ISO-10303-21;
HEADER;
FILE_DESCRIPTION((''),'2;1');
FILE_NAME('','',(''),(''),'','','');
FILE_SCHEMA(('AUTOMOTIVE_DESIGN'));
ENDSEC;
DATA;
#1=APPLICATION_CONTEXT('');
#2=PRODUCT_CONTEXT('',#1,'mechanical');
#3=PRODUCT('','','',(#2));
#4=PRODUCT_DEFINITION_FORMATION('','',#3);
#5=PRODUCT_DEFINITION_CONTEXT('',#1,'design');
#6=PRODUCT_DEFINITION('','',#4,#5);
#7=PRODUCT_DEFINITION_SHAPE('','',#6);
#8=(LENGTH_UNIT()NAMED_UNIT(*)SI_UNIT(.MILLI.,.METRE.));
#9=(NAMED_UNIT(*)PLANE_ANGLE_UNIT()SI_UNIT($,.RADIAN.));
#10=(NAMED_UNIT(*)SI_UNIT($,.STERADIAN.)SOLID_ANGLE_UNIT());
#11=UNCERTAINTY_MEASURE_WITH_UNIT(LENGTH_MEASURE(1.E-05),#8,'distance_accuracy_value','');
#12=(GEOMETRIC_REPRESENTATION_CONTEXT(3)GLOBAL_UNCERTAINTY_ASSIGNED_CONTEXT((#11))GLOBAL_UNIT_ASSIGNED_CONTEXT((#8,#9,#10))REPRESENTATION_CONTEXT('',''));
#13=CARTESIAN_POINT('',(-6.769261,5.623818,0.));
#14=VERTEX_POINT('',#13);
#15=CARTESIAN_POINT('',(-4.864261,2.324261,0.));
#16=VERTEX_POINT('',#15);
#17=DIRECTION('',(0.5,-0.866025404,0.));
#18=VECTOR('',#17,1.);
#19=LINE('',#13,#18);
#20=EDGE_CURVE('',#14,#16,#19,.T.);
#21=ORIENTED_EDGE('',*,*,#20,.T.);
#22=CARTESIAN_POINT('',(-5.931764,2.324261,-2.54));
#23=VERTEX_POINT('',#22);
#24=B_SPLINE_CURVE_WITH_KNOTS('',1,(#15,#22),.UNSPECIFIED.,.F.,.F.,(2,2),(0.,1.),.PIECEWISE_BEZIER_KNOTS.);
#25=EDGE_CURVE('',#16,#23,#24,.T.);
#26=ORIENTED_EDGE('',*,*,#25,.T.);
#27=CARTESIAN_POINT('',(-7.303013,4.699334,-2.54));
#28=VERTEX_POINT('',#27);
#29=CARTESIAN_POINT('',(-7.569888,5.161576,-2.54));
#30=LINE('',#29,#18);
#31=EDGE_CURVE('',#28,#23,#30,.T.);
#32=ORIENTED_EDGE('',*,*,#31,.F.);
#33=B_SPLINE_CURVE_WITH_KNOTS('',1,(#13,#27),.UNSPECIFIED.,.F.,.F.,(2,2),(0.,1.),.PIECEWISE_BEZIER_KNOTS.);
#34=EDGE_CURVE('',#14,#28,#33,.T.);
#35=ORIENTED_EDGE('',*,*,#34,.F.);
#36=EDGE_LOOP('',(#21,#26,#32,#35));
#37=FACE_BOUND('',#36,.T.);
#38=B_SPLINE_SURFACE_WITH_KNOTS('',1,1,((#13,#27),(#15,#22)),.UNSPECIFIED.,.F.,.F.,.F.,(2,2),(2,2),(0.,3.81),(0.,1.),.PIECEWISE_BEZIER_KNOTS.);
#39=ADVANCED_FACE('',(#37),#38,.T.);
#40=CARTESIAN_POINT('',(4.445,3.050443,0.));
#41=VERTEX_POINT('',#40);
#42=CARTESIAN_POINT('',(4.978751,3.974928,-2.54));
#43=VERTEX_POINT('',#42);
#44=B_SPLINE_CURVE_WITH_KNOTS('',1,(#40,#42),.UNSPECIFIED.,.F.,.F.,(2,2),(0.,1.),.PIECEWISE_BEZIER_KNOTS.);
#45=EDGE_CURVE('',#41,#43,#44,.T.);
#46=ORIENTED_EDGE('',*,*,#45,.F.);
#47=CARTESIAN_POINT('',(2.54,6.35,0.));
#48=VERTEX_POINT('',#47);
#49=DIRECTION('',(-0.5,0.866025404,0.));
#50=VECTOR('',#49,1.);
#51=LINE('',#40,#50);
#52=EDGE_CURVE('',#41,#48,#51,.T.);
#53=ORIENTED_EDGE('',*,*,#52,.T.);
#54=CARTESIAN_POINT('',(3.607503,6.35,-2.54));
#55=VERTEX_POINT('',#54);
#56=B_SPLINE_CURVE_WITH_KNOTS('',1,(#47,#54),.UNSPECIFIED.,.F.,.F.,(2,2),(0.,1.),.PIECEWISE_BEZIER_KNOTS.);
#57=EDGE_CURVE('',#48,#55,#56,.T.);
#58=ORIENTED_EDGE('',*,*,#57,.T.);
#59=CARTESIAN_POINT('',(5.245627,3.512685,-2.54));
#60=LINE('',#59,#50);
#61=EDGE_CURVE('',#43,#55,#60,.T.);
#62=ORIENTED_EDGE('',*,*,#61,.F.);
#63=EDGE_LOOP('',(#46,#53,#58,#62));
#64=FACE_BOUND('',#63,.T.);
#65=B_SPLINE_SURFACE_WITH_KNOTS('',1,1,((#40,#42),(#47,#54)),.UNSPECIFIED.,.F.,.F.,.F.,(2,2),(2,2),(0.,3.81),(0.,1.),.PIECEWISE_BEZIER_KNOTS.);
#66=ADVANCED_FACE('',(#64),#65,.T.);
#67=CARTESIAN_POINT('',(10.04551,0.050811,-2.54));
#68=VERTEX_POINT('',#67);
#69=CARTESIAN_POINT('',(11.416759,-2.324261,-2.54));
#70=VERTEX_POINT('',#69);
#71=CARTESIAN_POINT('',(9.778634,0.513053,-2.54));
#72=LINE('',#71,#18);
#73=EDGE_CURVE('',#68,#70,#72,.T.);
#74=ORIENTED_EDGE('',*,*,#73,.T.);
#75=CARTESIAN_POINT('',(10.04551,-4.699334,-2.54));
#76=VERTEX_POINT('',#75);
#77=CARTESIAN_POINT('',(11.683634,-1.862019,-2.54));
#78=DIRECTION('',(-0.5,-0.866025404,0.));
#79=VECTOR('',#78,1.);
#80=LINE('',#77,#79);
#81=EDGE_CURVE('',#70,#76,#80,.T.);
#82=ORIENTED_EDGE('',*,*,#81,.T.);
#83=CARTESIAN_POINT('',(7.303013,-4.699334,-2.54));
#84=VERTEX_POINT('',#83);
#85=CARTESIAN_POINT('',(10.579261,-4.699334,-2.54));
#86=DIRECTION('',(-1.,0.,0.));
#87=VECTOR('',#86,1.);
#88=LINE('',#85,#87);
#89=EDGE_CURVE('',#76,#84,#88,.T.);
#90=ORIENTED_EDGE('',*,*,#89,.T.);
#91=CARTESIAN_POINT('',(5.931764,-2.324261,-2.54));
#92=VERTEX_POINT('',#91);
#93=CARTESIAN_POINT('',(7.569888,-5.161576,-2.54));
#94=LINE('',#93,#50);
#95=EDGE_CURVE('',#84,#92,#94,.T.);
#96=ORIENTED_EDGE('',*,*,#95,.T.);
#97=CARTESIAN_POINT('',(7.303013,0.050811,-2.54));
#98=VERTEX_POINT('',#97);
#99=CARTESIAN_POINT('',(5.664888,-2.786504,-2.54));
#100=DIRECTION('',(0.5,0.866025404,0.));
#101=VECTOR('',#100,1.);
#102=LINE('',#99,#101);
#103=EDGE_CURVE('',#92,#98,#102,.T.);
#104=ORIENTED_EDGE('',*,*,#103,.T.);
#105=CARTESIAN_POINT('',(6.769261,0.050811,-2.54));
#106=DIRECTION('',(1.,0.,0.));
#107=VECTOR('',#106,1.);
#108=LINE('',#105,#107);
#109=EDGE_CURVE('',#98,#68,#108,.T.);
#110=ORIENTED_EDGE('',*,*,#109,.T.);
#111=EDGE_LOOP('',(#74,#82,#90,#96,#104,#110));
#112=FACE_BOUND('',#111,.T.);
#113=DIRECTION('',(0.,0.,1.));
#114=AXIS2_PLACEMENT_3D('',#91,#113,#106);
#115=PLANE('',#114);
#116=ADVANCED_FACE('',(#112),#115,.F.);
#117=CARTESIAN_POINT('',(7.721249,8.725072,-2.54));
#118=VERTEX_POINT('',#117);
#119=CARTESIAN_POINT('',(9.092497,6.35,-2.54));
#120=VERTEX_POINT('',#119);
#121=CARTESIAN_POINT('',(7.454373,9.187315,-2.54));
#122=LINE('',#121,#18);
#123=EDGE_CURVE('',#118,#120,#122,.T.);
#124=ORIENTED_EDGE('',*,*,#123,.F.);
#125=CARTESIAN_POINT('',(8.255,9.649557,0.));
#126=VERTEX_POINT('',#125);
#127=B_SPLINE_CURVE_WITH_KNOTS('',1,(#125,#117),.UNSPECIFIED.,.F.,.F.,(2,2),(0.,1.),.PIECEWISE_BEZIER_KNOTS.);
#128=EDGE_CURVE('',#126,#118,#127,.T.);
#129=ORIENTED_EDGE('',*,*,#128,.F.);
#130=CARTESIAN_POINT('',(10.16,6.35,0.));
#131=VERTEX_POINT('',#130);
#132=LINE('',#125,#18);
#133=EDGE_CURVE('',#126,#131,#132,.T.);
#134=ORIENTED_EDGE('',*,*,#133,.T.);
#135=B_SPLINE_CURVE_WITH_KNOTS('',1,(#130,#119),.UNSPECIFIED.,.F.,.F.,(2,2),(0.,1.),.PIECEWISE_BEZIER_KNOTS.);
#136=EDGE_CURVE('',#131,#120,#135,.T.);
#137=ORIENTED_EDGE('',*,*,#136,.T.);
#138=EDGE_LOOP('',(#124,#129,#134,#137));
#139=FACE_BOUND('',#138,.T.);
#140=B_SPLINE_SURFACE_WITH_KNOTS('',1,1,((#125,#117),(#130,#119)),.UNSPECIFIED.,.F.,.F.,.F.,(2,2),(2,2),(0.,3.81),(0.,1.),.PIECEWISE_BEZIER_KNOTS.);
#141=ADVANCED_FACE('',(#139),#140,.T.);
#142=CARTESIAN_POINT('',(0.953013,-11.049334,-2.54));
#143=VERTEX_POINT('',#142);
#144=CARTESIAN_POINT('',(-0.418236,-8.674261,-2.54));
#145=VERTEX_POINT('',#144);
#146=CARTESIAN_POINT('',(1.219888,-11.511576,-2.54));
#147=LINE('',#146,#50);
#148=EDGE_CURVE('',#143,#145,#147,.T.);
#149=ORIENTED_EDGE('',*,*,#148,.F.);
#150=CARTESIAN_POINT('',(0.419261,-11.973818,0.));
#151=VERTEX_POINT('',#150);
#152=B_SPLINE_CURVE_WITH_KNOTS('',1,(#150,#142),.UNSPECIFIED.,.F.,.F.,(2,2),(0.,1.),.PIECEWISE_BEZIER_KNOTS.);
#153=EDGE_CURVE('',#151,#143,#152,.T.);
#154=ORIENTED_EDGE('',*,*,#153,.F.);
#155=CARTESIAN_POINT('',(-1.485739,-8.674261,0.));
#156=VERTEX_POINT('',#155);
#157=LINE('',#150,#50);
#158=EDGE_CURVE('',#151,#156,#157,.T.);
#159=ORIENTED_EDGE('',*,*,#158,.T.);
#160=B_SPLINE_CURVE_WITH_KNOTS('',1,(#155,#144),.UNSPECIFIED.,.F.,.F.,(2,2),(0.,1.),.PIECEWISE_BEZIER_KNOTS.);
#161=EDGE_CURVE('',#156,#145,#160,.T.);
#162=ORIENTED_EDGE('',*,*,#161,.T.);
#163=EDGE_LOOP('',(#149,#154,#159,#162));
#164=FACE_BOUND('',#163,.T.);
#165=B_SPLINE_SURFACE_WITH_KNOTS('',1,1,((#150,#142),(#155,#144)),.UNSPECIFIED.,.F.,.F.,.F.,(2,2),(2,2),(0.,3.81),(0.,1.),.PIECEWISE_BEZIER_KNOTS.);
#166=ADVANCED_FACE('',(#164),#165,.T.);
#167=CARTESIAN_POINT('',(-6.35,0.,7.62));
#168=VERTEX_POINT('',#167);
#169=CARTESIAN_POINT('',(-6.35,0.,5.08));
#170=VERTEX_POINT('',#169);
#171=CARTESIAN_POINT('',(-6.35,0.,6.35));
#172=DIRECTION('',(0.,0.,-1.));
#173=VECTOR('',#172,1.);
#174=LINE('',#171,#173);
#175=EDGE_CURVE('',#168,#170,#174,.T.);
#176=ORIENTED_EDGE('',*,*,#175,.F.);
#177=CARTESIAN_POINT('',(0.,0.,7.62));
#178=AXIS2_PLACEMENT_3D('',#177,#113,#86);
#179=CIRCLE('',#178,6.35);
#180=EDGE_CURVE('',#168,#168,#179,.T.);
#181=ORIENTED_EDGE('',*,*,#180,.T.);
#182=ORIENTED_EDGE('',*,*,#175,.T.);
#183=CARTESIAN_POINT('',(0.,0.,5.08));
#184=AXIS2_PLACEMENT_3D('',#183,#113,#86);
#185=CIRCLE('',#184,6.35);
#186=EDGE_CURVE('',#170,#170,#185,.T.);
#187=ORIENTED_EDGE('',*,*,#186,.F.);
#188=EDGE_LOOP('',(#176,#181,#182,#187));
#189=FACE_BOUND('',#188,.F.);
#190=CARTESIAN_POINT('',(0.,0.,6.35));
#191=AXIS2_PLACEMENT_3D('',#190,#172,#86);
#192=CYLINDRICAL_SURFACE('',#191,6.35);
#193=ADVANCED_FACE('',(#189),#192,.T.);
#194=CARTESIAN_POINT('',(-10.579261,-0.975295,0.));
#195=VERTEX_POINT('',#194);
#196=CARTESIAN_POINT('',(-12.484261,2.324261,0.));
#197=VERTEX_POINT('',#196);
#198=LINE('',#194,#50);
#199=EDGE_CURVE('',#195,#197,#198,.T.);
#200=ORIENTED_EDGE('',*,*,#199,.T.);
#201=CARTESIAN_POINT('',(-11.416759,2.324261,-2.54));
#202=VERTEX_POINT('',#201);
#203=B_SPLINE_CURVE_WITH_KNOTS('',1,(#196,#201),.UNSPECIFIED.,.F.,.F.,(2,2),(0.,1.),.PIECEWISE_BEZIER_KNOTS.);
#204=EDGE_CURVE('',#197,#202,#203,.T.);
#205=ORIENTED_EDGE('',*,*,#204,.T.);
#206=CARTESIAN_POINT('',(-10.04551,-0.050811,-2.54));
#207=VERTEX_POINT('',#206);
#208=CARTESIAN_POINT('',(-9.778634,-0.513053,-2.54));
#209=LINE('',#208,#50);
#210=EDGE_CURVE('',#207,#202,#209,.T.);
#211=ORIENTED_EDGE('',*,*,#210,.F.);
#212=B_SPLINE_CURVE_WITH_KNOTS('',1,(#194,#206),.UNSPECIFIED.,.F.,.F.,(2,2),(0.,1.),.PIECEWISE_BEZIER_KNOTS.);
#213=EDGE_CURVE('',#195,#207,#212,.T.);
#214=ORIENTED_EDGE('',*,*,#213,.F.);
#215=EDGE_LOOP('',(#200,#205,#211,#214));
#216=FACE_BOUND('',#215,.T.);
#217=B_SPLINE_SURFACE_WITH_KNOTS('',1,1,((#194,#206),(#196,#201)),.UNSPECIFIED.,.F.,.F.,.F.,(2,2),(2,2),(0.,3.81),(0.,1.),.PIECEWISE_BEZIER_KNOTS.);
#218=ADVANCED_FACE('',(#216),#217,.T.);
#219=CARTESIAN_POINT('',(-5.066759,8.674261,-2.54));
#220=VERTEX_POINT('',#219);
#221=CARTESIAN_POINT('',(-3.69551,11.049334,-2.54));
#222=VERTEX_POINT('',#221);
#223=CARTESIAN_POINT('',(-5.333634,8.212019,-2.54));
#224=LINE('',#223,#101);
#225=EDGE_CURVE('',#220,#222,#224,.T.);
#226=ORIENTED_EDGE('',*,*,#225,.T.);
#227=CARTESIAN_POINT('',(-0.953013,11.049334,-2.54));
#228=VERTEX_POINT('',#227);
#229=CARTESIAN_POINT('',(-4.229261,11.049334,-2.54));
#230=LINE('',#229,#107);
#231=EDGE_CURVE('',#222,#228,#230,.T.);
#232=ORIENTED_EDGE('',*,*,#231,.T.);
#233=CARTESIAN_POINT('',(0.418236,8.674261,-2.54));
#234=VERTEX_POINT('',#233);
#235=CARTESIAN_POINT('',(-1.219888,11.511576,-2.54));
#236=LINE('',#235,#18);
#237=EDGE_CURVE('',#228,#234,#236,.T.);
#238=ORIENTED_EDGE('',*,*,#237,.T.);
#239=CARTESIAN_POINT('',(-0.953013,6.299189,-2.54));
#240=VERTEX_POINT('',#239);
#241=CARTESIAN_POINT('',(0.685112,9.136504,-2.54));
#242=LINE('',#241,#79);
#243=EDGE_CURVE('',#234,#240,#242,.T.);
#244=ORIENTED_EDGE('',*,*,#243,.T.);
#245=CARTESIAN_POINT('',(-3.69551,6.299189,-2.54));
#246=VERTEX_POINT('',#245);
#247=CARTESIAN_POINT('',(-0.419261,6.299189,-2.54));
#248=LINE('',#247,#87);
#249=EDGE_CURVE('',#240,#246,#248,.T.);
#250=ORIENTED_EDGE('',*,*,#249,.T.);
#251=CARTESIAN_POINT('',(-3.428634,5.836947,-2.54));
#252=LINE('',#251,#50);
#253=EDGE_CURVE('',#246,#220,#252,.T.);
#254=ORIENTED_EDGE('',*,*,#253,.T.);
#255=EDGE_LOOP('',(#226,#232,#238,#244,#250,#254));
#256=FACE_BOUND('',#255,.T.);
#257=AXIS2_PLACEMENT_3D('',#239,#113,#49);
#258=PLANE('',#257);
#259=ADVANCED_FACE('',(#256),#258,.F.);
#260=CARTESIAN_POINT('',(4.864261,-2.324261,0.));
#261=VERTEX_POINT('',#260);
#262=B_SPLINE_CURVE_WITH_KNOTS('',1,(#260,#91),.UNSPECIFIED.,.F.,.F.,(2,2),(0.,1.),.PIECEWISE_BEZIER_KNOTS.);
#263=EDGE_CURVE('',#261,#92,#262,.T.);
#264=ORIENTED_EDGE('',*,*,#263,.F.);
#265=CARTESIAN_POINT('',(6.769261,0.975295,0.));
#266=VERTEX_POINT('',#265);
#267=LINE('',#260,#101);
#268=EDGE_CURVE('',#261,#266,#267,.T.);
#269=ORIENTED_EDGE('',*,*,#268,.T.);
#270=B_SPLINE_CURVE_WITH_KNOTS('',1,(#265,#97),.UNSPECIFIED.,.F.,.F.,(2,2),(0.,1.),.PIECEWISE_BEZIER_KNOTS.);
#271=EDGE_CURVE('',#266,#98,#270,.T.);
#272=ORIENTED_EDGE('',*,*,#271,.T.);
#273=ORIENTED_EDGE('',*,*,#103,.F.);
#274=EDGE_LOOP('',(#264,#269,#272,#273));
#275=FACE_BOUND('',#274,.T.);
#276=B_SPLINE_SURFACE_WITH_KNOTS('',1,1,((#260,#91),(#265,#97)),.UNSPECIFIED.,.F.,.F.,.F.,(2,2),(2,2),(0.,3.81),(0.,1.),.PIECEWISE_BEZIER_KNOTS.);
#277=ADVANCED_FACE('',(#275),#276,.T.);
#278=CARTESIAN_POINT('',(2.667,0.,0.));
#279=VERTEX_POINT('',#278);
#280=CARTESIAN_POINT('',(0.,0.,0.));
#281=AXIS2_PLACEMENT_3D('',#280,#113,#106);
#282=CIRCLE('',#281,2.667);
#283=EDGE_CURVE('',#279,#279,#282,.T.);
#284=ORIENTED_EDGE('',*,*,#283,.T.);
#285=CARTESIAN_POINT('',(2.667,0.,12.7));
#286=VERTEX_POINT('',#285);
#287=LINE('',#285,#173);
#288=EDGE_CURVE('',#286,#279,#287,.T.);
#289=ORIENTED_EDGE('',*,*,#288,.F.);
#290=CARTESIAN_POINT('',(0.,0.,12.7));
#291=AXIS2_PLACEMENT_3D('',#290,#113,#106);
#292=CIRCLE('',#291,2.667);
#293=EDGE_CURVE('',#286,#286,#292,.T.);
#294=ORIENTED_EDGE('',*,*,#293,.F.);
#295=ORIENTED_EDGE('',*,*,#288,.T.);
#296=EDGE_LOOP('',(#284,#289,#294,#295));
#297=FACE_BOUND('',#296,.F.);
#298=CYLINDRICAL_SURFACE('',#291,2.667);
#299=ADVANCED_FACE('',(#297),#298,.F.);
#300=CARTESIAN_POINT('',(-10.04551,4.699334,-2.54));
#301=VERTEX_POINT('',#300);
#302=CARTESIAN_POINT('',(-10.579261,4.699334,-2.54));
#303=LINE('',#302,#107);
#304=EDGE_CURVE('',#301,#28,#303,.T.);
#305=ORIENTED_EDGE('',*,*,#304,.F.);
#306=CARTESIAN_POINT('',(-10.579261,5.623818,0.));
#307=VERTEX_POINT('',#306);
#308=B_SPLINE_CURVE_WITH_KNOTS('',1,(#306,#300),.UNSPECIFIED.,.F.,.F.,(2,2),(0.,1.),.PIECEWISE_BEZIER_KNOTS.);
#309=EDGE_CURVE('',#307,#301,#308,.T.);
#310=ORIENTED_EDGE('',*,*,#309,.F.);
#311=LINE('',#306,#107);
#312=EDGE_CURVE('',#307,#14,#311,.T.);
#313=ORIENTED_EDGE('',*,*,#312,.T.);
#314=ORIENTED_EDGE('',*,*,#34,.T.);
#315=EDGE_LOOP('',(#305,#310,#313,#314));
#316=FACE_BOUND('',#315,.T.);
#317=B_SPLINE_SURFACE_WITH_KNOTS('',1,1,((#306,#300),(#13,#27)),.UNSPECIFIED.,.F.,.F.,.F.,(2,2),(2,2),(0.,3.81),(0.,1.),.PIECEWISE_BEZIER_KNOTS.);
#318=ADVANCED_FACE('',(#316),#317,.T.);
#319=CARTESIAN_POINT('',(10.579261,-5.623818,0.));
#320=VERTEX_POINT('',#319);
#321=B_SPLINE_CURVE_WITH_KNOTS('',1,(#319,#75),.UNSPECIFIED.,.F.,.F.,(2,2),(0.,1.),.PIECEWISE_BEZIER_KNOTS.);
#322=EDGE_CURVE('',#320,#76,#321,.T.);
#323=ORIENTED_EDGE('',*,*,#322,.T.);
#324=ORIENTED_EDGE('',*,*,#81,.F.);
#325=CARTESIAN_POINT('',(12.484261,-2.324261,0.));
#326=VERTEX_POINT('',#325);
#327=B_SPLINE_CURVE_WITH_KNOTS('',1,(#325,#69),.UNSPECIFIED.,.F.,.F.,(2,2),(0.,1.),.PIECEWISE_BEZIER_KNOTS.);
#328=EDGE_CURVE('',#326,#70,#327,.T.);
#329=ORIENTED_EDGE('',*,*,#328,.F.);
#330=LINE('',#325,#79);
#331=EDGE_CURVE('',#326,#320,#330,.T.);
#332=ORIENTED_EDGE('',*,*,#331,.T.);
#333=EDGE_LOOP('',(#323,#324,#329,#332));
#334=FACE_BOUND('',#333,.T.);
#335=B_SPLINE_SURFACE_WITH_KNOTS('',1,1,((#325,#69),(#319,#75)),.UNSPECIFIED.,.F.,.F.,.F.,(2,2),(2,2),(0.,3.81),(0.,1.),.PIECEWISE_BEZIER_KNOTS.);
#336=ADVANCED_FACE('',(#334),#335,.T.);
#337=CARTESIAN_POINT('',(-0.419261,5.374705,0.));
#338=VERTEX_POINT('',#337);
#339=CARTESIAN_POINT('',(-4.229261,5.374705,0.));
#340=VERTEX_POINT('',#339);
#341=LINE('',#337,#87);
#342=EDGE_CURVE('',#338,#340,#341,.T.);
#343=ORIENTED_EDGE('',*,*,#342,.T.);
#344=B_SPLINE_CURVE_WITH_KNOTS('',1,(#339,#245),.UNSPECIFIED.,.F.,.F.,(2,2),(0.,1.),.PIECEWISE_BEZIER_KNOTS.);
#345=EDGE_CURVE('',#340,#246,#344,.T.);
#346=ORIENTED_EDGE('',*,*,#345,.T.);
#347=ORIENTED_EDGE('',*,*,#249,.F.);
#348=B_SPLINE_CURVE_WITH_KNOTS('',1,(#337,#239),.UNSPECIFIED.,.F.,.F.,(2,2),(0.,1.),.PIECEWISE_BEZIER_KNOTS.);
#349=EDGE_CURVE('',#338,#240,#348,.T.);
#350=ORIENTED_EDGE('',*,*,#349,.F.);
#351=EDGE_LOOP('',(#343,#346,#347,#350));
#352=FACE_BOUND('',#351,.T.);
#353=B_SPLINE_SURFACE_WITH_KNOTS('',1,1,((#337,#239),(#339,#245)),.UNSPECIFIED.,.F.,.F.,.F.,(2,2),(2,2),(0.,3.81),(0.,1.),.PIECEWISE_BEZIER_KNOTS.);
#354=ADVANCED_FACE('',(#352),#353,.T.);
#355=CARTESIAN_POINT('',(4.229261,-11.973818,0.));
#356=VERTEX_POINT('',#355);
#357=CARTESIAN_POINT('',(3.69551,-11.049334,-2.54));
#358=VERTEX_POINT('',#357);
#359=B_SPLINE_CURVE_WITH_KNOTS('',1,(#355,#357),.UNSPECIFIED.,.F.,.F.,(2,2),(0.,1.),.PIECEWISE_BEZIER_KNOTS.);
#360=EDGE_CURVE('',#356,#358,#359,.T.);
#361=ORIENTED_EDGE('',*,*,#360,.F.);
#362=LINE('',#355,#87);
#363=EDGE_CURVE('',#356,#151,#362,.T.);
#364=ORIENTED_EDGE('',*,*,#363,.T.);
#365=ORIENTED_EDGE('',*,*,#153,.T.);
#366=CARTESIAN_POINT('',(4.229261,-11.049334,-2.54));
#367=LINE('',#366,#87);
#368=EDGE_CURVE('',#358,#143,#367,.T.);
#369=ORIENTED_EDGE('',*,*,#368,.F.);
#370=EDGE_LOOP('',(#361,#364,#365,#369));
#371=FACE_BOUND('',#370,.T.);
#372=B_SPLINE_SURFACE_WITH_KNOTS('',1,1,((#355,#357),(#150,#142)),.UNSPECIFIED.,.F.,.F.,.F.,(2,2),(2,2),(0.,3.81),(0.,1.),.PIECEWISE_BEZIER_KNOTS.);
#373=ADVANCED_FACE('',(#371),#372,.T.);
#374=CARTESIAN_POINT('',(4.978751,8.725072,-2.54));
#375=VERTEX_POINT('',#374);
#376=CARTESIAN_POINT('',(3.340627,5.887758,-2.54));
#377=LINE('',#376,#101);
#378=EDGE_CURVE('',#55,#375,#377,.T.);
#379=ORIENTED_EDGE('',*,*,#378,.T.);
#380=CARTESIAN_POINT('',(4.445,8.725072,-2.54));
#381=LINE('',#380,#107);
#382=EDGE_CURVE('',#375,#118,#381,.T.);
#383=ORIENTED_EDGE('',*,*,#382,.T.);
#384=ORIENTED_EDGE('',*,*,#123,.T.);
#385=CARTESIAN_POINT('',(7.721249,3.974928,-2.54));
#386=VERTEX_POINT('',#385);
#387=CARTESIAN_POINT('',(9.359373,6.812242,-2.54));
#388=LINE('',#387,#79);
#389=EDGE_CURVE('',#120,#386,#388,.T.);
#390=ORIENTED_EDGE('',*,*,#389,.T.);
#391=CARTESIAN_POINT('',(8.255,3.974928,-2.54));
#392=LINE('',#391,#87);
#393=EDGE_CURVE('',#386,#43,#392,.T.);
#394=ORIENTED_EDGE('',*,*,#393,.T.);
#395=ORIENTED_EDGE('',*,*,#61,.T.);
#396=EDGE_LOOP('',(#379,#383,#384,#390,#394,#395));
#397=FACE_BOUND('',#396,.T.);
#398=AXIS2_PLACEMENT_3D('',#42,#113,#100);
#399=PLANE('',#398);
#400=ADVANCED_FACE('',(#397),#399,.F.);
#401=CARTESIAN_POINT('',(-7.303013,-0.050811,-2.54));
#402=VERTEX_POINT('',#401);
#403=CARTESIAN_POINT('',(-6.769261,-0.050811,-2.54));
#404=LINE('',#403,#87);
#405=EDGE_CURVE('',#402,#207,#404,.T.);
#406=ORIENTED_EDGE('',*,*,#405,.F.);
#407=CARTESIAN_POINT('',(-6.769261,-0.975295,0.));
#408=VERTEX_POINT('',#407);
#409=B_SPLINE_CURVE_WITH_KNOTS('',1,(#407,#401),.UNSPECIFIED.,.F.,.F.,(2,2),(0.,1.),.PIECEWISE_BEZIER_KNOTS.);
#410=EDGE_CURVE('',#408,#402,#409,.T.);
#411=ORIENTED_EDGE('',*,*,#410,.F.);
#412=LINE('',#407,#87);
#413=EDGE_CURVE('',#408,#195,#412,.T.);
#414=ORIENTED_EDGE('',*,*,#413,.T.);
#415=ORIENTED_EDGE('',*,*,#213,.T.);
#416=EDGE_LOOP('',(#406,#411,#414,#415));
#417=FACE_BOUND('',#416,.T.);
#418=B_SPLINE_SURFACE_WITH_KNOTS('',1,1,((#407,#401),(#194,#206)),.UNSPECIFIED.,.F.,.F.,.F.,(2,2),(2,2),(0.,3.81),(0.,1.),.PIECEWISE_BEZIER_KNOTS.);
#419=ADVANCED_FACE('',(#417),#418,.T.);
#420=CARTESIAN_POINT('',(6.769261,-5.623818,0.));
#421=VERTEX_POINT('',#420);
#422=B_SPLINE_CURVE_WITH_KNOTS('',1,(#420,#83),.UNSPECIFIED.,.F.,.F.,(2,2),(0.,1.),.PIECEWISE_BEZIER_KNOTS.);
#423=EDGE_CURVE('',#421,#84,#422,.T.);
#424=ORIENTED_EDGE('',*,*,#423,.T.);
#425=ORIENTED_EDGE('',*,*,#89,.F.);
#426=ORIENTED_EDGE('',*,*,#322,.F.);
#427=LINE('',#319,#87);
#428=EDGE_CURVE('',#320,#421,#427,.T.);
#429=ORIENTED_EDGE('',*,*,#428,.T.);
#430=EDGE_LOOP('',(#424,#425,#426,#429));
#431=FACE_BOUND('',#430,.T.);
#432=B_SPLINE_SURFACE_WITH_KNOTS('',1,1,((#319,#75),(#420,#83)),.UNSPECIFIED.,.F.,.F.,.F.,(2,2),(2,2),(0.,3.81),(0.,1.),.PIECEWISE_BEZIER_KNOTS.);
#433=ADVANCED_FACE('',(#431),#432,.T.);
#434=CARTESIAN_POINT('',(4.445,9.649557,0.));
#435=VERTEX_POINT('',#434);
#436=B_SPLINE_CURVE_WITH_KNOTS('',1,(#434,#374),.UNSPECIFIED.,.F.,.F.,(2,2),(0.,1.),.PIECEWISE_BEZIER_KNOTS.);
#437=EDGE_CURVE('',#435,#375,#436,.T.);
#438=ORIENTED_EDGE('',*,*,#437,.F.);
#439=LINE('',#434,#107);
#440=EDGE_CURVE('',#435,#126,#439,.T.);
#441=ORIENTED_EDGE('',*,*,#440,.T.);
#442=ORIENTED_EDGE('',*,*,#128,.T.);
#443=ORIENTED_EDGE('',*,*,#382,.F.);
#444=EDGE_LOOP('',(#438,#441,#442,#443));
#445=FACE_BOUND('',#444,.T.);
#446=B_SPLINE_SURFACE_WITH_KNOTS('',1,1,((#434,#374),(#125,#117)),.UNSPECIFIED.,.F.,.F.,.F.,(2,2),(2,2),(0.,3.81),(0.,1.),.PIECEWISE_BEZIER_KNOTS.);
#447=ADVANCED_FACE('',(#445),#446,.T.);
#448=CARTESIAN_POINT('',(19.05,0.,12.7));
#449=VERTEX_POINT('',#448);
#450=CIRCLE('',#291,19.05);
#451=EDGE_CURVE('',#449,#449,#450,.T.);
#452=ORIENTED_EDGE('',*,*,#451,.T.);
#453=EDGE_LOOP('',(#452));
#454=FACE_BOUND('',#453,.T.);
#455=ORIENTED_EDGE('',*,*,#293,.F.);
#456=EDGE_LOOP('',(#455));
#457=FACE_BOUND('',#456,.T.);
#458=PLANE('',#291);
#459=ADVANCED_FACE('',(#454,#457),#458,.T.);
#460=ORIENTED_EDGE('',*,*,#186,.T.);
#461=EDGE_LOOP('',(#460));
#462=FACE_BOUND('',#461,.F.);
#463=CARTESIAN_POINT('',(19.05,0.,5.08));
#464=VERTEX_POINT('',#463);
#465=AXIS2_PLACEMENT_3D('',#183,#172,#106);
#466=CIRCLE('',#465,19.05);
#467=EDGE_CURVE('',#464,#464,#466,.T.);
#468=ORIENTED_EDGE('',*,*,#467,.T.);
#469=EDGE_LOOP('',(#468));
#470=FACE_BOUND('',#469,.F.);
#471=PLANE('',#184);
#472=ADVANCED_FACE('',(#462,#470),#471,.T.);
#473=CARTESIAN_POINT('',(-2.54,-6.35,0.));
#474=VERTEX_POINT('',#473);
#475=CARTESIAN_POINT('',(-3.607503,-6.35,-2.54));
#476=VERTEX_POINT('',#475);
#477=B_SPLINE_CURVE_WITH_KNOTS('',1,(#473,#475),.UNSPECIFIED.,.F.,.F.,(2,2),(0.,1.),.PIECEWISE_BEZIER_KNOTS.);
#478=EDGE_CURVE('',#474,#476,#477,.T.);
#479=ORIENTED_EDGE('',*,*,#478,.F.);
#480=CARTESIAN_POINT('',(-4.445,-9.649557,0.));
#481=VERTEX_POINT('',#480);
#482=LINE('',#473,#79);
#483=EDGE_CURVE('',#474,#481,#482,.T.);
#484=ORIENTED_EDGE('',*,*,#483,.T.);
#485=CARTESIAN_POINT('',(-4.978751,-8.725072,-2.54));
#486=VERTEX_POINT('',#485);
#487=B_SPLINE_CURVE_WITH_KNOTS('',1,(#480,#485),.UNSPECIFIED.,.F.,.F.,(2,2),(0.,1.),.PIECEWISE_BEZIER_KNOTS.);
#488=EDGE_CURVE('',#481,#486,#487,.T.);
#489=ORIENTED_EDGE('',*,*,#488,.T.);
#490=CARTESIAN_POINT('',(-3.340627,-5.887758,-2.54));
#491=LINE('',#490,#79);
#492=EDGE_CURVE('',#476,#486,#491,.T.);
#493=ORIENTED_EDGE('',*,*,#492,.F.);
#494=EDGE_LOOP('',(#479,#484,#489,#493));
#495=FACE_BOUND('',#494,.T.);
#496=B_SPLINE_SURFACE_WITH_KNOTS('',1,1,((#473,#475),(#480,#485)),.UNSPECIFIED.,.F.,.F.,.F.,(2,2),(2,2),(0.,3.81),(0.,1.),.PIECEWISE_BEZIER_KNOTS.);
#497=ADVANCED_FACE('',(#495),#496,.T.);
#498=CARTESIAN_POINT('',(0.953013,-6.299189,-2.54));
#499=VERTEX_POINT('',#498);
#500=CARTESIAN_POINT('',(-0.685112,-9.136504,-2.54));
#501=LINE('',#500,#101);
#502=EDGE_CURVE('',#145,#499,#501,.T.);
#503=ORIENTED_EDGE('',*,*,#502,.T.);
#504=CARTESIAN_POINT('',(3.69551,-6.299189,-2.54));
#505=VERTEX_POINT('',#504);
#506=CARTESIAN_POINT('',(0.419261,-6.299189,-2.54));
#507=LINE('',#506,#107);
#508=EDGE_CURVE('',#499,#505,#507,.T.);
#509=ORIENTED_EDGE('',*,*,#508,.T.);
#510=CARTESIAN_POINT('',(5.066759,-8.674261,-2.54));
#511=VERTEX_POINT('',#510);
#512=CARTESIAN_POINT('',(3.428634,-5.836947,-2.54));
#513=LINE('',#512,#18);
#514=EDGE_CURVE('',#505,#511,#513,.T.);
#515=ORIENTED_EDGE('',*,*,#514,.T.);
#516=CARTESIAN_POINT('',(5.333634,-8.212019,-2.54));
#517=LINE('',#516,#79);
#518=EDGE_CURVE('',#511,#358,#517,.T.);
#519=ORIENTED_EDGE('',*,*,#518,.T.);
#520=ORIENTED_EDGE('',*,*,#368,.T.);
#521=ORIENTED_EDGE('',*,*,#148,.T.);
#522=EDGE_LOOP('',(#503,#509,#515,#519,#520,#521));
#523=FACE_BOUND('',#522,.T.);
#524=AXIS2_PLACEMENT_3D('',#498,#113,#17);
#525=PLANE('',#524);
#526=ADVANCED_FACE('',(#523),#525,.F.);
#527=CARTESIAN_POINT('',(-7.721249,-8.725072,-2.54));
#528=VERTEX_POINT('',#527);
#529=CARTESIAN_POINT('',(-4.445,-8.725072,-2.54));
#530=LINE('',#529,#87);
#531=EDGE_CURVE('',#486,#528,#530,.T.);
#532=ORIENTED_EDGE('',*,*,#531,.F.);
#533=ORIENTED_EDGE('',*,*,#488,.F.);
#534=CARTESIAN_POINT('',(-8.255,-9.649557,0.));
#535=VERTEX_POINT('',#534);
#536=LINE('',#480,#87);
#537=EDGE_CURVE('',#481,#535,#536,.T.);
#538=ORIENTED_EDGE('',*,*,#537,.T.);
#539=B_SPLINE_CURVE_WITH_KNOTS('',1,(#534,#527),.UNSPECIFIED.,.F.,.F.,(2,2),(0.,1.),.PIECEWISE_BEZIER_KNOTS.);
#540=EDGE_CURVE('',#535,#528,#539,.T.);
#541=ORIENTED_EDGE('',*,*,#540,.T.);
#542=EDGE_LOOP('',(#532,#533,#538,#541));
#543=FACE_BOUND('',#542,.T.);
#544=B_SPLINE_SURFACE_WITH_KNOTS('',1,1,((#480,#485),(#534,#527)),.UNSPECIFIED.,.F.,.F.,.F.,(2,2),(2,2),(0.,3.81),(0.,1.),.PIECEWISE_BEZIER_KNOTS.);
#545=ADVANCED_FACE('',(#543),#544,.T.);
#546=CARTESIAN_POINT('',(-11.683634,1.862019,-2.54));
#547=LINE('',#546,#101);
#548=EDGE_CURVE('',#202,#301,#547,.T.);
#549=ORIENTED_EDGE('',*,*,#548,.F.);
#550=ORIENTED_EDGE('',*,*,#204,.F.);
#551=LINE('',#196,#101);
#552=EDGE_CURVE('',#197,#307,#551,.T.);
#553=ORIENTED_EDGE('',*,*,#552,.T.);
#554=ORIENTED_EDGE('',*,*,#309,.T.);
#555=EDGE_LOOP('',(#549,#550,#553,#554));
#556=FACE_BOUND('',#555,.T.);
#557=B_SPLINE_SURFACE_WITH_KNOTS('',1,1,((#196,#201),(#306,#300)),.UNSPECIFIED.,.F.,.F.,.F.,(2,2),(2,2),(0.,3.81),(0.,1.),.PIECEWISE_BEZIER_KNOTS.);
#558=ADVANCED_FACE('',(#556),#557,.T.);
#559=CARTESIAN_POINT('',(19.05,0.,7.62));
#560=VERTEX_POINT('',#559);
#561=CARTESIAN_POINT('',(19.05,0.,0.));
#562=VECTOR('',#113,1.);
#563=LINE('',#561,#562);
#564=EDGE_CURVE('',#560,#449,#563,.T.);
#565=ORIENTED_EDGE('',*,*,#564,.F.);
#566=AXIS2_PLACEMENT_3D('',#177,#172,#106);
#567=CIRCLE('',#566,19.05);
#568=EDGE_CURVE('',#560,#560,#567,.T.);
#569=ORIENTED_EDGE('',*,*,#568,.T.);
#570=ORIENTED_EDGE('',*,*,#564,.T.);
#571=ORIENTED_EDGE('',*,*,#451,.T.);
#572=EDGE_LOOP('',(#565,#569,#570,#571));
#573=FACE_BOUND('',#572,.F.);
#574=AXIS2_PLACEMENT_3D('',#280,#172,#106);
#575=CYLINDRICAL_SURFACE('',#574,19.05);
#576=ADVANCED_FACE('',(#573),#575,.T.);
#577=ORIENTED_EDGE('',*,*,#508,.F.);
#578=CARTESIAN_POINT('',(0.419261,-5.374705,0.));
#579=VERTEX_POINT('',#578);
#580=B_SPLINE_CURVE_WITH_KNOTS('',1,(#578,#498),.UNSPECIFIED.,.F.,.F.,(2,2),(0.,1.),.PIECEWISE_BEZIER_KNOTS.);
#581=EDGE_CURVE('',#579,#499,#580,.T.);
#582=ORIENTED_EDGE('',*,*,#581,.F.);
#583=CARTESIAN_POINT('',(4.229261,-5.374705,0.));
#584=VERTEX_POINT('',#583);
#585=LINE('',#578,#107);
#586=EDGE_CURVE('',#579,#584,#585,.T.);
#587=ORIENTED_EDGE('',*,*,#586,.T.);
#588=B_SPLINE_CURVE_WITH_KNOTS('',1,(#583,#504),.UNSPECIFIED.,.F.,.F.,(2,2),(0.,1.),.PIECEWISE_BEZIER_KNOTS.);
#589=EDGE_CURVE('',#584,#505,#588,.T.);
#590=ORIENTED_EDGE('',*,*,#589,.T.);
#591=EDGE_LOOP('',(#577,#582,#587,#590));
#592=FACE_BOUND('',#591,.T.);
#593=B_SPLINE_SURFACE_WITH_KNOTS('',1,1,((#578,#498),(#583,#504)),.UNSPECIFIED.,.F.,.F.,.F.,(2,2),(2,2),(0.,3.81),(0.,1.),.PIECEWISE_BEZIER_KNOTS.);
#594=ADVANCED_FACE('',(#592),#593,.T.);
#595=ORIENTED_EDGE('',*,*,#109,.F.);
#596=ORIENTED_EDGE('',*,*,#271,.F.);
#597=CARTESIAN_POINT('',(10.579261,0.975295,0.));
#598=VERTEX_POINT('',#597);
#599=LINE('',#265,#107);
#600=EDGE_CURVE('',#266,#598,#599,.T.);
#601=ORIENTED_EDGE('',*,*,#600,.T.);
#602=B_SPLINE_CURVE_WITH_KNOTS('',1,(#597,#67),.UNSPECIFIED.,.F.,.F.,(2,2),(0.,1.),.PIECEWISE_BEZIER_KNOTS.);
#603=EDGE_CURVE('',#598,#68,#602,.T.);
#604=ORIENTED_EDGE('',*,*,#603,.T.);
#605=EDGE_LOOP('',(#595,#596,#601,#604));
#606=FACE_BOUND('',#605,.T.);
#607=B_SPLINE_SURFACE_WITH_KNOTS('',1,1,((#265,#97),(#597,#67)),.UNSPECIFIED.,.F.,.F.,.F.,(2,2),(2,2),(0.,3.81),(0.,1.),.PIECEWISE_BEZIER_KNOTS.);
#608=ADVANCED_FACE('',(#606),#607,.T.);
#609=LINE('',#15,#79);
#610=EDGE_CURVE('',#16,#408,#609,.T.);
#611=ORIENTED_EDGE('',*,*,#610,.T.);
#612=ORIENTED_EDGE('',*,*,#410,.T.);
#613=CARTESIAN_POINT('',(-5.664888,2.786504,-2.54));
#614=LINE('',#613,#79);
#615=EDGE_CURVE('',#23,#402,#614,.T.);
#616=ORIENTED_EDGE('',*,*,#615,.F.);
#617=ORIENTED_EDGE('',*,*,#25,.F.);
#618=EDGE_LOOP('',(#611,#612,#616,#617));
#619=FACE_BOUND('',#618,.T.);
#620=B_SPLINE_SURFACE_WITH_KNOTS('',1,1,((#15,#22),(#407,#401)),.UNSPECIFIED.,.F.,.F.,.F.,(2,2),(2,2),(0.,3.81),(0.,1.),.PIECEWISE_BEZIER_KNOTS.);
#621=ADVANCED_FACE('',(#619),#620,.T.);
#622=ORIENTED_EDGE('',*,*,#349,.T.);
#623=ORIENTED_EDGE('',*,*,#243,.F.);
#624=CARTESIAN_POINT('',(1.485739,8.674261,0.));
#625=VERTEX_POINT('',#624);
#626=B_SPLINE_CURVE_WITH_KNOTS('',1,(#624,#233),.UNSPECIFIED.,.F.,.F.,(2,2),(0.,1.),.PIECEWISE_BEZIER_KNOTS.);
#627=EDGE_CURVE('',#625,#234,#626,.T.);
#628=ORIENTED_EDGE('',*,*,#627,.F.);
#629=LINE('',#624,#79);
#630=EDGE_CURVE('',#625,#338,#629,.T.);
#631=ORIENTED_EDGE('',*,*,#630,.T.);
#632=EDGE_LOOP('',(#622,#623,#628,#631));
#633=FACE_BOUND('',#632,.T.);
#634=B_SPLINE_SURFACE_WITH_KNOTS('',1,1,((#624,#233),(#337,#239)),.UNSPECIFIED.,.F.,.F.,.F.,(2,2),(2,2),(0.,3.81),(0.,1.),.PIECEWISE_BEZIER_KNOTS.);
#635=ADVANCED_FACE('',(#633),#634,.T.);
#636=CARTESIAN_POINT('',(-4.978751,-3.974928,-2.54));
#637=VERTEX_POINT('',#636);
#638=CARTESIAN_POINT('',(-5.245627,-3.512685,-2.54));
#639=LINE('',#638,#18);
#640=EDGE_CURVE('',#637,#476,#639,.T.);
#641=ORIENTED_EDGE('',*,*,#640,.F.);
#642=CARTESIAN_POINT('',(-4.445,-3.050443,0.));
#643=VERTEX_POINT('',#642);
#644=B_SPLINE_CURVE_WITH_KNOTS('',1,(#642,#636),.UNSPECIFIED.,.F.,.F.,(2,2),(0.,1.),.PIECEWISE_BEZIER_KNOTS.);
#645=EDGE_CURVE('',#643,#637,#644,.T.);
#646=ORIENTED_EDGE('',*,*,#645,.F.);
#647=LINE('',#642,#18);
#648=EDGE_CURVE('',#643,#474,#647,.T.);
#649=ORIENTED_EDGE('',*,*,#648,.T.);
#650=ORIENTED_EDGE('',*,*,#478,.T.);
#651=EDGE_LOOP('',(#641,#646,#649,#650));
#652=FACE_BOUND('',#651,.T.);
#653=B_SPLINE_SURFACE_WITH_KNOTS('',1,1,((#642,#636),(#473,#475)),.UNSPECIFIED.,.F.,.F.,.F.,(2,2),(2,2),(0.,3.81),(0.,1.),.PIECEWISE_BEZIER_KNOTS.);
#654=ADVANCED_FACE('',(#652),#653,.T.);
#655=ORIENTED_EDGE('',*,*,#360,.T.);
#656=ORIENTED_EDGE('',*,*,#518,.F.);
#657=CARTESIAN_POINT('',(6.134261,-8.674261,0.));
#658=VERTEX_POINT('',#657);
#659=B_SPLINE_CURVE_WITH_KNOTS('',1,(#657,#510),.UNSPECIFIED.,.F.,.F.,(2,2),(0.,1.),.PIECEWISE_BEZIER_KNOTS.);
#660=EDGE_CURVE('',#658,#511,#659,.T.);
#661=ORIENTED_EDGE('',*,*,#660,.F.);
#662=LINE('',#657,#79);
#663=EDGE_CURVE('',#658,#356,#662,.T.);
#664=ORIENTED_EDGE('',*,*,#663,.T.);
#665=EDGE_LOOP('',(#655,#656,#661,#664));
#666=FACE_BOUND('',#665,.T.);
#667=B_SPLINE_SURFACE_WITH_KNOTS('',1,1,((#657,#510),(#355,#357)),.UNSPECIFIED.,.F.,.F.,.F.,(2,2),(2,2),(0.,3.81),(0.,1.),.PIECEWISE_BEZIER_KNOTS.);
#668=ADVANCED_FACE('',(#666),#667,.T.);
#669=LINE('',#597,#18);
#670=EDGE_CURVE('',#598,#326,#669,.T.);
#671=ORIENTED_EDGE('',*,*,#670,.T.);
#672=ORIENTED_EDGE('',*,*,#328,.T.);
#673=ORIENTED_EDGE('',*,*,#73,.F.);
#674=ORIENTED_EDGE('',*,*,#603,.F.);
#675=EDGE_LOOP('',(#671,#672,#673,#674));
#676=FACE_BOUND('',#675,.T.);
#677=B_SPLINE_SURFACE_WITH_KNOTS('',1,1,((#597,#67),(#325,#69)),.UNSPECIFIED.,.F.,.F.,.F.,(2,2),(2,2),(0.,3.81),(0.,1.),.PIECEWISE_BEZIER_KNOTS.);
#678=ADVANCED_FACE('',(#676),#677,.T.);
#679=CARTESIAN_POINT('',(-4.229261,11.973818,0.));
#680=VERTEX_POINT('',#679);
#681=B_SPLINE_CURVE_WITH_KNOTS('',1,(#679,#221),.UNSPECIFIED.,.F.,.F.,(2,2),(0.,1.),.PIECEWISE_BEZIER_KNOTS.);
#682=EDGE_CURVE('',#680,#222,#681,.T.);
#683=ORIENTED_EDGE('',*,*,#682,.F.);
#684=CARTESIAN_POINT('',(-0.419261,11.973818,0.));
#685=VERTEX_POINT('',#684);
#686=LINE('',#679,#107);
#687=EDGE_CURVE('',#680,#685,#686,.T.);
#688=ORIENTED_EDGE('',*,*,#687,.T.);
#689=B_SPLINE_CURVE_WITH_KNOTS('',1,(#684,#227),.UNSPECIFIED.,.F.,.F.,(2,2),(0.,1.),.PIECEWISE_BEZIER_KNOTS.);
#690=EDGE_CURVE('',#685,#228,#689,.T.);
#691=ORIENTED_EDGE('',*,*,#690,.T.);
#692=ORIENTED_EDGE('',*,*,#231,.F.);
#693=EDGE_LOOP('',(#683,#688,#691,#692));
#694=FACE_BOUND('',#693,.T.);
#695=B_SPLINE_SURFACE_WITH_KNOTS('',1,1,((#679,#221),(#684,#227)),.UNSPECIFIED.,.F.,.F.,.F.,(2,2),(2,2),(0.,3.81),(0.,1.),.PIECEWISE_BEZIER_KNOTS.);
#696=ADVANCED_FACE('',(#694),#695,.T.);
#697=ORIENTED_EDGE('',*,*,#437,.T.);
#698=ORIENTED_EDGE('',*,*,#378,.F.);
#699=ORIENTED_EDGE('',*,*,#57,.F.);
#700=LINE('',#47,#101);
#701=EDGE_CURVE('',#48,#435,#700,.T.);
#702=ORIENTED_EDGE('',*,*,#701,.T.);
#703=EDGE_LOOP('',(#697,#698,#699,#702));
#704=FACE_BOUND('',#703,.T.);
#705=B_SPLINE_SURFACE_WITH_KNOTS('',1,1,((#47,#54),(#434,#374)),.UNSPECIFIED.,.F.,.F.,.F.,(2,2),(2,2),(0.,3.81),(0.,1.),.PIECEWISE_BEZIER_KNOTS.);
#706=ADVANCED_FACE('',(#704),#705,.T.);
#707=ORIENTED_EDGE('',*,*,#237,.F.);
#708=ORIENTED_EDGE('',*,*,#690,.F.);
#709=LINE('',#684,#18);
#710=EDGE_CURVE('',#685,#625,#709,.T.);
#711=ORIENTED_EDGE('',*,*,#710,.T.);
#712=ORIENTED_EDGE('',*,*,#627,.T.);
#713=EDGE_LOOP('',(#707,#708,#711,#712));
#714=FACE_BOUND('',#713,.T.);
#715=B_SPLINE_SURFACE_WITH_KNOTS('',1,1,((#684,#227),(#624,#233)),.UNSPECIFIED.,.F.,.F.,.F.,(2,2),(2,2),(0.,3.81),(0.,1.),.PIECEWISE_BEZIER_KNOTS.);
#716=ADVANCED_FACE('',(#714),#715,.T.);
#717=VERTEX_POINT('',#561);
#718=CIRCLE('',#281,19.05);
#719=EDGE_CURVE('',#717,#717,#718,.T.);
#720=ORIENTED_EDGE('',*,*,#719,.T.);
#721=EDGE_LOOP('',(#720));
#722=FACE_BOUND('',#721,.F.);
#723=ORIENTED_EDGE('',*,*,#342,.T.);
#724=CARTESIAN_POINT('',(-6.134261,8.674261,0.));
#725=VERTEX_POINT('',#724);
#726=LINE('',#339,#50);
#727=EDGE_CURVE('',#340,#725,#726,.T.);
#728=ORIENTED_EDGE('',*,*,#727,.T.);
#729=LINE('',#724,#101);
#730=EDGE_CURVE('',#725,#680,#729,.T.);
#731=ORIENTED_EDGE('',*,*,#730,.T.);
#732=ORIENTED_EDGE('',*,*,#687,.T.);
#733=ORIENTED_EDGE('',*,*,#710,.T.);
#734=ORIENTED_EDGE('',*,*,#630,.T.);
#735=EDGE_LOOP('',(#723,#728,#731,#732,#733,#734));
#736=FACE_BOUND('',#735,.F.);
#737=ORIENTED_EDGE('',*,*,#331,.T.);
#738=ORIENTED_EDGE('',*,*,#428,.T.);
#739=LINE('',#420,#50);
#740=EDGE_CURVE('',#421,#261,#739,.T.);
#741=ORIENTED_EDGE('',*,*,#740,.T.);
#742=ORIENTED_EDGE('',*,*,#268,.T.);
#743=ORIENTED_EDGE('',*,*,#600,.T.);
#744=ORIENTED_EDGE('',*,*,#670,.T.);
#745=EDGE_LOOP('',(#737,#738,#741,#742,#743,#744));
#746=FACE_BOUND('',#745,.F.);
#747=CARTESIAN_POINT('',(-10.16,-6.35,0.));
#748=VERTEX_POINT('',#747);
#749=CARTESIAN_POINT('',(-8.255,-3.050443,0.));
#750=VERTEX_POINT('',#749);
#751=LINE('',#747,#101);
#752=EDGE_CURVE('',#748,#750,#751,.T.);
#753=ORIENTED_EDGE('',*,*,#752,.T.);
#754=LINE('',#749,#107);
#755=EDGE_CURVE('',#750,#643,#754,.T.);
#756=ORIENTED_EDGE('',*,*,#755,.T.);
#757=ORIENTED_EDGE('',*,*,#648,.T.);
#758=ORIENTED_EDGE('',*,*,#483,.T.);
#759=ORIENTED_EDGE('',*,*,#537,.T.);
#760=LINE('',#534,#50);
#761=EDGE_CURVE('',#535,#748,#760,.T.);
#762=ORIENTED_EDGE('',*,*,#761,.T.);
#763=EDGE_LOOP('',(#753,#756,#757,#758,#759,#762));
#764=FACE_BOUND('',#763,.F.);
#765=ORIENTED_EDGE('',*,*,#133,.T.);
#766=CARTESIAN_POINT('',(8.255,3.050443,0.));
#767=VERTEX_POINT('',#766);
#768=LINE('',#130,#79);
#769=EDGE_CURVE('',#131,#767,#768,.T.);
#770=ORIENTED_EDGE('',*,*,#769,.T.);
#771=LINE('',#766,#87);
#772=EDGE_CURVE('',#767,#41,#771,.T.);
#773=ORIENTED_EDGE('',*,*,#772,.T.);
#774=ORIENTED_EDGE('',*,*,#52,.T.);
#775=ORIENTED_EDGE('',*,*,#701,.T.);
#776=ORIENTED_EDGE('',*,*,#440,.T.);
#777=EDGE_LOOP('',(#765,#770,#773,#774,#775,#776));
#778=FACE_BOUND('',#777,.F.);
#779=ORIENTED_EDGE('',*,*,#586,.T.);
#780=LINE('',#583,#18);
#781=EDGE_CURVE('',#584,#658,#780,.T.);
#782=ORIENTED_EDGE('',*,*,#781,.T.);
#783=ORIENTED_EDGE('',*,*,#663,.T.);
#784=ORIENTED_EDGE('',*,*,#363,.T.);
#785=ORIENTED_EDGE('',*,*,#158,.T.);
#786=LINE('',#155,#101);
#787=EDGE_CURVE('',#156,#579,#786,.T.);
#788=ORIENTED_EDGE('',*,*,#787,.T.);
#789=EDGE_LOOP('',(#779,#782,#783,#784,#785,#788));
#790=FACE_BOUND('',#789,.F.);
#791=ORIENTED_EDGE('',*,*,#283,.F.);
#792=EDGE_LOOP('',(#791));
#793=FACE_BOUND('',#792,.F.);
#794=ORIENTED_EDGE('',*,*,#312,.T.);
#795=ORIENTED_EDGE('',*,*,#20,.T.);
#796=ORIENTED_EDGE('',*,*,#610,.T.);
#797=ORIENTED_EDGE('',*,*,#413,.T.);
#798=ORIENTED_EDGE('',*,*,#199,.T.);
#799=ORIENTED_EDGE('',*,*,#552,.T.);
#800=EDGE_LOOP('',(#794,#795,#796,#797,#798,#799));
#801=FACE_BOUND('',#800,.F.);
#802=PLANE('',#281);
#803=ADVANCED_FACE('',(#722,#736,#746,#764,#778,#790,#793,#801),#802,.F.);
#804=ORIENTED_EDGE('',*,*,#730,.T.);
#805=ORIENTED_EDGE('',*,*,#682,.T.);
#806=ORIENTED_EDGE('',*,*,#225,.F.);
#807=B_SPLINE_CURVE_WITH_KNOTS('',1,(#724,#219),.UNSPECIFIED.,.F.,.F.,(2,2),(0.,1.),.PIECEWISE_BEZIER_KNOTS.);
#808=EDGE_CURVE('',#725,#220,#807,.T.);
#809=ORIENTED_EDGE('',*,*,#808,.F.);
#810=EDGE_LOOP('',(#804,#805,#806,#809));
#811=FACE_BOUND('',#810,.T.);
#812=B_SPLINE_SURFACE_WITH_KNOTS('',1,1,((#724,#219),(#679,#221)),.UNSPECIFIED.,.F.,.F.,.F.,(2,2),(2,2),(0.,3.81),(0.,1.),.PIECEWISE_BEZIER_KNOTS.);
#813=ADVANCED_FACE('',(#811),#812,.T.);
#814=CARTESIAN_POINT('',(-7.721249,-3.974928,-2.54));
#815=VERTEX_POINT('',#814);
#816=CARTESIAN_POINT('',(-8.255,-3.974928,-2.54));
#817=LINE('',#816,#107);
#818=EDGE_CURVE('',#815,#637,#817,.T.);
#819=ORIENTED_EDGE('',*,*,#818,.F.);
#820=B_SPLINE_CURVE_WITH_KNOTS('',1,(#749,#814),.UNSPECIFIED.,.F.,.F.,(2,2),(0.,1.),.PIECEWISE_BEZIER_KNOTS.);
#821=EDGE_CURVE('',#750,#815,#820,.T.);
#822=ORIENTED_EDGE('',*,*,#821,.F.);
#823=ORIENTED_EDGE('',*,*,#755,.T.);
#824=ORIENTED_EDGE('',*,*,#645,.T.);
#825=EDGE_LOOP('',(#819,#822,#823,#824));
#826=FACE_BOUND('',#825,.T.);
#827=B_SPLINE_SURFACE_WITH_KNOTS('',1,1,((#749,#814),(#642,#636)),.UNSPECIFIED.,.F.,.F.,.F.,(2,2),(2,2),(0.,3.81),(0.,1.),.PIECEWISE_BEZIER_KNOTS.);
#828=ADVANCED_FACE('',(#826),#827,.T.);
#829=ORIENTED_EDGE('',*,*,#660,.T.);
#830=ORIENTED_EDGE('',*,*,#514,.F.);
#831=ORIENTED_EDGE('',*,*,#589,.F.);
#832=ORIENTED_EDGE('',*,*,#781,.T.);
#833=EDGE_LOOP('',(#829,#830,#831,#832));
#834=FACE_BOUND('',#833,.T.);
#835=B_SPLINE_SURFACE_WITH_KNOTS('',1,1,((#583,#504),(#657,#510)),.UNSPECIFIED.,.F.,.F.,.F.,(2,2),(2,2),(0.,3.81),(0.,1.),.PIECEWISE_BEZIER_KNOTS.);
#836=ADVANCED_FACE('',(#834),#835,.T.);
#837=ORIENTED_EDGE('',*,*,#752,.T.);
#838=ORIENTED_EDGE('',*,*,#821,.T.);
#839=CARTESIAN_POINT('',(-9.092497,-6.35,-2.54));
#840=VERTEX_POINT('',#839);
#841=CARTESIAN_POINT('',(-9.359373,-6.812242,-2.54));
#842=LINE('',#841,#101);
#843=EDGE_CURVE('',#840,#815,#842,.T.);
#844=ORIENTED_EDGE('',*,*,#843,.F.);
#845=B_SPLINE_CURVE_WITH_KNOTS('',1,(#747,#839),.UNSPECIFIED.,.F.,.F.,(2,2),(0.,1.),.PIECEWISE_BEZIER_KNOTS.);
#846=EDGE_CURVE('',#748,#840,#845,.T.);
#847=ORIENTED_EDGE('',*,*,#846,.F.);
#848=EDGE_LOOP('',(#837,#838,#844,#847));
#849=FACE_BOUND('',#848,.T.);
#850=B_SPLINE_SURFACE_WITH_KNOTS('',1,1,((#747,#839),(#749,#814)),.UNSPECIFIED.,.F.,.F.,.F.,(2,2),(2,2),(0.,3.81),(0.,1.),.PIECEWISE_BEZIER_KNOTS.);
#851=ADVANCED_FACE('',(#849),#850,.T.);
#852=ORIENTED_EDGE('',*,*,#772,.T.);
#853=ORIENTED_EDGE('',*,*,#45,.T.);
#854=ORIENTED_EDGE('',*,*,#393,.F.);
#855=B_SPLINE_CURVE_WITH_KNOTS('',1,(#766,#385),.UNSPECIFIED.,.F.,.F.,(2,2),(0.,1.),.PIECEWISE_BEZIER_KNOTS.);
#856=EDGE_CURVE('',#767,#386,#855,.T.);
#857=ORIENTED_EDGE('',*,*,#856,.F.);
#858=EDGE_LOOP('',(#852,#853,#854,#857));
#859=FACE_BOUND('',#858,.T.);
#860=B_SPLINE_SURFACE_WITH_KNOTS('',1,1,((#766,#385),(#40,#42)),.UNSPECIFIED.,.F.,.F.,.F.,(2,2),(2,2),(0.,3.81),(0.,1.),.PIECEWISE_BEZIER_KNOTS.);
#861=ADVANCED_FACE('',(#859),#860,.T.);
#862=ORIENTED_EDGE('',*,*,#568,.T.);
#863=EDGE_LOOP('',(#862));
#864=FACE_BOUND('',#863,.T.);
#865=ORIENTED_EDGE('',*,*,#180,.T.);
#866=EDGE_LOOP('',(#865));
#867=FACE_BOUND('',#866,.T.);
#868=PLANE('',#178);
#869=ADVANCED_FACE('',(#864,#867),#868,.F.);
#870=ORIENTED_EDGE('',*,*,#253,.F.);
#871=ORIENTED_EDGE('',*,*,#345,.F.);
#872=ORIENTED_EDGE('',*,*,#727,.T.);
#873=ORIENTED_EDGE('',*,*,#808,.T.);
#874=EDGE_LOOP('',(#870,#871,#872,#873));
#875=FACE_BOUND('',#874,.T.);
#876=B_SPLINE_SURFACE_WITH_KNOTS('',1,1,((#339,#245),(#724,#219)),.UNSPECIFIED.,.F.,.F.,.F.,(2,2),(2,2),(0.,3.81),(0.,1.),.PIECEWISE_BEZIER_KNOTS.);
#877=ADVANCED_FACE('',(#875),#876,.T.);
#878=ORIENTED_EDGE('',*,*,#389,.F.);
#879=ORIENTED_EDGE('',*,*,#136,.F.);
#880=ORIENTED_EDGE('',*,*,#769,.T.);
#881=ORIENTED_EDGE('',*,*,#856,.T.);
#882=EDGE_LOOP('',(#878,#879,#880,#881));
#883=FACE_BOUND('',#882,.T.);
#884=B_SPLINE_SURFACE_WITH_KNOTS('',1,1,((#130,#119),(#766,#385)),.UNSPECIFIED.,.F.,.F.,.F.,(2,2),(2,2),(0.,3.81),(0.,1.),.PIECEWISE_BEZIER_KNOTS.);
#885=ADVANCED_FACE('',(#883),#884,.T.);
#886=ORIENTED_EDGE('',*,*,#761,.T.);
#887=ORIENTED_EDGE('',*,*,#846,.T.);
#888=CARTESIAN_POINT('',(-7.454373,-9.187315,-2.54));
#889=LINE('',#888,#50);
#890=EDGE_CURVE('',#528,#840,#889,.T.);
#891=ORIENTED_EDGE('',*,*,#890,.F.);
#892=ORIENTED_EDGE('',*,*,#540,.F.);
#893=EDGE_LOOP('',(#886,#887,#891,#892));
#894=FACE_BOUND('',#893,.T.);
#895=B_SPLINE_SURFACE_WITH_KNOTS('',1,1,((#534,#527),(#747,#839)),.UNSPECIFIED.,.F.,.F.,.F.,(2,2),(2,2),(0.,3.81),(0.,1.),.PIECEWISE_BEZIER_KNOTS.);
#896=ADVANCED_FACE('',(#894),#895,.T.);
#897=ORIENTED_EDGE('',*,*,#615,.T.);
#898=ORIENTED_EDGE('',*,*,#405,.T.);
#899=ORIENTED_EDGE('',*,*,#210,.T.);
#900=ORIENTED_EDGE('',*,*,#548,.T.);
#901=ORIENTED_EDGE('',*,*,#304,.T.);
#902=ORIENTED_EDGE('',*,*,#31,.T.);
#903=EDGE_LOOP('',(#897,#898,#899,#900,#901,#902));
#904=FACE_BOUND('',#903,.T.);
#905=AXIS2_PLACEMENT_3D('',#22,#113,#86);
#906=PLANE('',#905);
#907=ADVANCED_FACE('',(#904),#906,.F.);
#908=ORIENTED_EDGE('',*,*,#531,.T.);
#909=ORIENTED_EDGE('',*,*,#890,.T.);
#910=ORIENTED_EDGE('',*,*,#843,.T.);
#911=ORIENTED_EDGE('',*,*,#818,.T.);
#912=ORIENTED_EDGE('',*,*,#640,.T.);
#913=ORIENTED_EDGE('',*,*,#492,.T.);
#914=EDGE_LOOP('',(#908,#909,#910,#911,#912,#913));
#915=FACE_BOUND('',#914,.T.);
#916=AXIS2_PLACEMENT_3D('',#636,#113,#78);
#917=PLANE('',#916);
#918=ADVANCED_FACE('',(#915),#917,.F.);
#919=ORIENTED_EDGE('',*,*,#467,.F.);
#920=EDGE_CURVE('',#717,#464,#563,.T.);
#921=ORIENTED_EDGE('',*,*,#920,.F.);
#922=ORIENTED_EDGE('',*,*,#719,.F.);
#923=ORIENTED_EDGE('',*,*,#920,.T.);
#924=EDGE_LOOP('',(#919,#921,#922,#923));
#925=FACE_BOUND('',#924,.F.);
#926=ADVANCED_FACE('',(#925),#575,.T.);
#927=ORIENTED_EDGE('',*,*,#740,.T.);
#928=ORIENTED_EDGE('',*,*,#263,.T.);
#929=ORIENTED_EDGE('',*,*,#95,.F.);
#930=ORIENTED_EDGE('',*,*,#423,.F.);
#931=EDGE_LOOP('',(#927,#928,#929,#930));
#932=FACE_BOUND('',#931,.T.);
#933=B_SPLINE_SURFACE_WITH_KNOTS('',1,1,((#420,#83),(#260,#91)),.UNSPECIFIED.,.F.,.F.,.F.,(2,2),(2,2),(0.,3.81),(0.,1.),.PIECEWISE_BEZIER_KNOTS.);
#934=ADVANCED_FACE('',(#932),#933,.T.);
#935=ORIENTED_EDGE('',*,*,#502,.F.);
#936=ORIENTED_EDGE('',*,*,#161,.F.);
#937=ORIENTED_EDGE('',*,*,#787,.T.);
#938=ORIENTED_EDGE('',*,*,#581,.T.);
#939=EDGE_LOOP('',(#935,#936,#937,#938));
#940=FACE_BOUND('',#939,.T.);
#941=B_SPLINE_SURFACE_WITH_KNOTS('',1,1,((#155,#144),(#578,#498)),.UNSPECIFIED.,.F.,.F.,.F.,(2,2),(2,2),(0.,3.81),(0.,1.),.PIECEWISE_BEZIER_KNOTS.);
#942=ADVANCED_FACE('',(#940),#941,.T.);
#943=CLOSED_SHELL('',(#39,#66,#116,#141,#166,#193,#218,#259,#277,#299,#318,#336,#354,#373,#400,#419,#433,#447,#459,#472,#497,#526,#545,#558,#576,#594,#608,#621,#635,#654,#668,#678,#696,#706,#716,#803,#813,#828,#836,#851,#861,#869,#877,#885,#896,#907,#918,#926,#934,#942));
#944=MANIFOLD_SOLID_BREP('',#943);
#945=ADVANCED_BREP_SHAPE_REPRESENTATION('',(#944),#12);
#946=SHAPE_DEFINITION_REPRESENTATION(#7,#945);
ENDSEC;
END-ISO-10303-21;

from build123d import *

# Parameters (mm, degrees)
SKETCH1_R           = 19.05
BOSS_EXTRUDE1_DEPTH = 12.7
SKETCH2_W           = 12.7
SKETCH2_H           = 2.54
SKETCH3_R           = 2.667
CUT_EXTRUDE1_DEPTH  = 30.784140075
BOSS_EXTRUDE2_DEPTH = 2.54
BOSS_EXTRUDE2_TAPER = 20
CIRPATTERN1_COUNT   = 6


with BuildPart() as part:
    # Sketch1 → Boss-Extrude1 (new body)
    with BuildSketch(Plane.XY):
        Circle(SKETCH1_R)
    extrude(amount=BOSS_EXTRUDE1_DEPTH)

    # Sketch2 → Cut-Revolve1 (revolve, cut)
    with BuildSketch(Plane(origin=(0, 0, 0), x_dir=(1, 0, 0), z_dir=(0, 1, 0)), mode=Mode.PRIVATE) as cut_revolve1_sk:
        with Locations((12.7, -6.35)):
            Rectangle(SKETCH2_W, SKETCH2_H)
    revolve(cut_revolve1_sk.sketch.rotate(Axis((0, 0, 0), (0, 0, 1)), 180), axis=Axis((0, 0, 0), (0, 0, 1)), mode=Mode.SUBTRACT)

    # Sketch3 → Cut-Extrude1 (cut, through all)
    with BuildSketch(Plane.XY.offset(12.7)):
        Circle(SKETCH3_R)
    extrude(amount=-CUT_EXTRUDE1_DEPTH, mode=Mode.SUBTRACT)

    # Sketch4 → Boss-Extrude2 (add)
    with BuildSketch(Plane(origin=(0, 0, 0), x_dir=(-1, 0, 0), z_dir=(0, 0, -1))):
        Polygon((-4.445, 3.050443212), (-2.54, 6.35), (-4.445, 9.649556788), (-8.255, 9.649556788), (-10.16, 6.35), (-8.255, 3.050443212), align=None)
    boss_extrude2 = extrude(amount=BOSS_EXTRUDE2_DEPTH, taper=BOSS_EXTRUDE2_TAPER)

    # CirPattern1: Boss-Extrude2 ×6 about axis
    cirpattern1_axis = Axis((0, 0, 0), (0, 0, 1))
    for i in range(1, CIRPATTERN1_COUNT):
        add(boss_extrude2.rotate(cirpattern1_axis, i * 360 / CIRPATTERN1_COUNT))


solid = part.part
